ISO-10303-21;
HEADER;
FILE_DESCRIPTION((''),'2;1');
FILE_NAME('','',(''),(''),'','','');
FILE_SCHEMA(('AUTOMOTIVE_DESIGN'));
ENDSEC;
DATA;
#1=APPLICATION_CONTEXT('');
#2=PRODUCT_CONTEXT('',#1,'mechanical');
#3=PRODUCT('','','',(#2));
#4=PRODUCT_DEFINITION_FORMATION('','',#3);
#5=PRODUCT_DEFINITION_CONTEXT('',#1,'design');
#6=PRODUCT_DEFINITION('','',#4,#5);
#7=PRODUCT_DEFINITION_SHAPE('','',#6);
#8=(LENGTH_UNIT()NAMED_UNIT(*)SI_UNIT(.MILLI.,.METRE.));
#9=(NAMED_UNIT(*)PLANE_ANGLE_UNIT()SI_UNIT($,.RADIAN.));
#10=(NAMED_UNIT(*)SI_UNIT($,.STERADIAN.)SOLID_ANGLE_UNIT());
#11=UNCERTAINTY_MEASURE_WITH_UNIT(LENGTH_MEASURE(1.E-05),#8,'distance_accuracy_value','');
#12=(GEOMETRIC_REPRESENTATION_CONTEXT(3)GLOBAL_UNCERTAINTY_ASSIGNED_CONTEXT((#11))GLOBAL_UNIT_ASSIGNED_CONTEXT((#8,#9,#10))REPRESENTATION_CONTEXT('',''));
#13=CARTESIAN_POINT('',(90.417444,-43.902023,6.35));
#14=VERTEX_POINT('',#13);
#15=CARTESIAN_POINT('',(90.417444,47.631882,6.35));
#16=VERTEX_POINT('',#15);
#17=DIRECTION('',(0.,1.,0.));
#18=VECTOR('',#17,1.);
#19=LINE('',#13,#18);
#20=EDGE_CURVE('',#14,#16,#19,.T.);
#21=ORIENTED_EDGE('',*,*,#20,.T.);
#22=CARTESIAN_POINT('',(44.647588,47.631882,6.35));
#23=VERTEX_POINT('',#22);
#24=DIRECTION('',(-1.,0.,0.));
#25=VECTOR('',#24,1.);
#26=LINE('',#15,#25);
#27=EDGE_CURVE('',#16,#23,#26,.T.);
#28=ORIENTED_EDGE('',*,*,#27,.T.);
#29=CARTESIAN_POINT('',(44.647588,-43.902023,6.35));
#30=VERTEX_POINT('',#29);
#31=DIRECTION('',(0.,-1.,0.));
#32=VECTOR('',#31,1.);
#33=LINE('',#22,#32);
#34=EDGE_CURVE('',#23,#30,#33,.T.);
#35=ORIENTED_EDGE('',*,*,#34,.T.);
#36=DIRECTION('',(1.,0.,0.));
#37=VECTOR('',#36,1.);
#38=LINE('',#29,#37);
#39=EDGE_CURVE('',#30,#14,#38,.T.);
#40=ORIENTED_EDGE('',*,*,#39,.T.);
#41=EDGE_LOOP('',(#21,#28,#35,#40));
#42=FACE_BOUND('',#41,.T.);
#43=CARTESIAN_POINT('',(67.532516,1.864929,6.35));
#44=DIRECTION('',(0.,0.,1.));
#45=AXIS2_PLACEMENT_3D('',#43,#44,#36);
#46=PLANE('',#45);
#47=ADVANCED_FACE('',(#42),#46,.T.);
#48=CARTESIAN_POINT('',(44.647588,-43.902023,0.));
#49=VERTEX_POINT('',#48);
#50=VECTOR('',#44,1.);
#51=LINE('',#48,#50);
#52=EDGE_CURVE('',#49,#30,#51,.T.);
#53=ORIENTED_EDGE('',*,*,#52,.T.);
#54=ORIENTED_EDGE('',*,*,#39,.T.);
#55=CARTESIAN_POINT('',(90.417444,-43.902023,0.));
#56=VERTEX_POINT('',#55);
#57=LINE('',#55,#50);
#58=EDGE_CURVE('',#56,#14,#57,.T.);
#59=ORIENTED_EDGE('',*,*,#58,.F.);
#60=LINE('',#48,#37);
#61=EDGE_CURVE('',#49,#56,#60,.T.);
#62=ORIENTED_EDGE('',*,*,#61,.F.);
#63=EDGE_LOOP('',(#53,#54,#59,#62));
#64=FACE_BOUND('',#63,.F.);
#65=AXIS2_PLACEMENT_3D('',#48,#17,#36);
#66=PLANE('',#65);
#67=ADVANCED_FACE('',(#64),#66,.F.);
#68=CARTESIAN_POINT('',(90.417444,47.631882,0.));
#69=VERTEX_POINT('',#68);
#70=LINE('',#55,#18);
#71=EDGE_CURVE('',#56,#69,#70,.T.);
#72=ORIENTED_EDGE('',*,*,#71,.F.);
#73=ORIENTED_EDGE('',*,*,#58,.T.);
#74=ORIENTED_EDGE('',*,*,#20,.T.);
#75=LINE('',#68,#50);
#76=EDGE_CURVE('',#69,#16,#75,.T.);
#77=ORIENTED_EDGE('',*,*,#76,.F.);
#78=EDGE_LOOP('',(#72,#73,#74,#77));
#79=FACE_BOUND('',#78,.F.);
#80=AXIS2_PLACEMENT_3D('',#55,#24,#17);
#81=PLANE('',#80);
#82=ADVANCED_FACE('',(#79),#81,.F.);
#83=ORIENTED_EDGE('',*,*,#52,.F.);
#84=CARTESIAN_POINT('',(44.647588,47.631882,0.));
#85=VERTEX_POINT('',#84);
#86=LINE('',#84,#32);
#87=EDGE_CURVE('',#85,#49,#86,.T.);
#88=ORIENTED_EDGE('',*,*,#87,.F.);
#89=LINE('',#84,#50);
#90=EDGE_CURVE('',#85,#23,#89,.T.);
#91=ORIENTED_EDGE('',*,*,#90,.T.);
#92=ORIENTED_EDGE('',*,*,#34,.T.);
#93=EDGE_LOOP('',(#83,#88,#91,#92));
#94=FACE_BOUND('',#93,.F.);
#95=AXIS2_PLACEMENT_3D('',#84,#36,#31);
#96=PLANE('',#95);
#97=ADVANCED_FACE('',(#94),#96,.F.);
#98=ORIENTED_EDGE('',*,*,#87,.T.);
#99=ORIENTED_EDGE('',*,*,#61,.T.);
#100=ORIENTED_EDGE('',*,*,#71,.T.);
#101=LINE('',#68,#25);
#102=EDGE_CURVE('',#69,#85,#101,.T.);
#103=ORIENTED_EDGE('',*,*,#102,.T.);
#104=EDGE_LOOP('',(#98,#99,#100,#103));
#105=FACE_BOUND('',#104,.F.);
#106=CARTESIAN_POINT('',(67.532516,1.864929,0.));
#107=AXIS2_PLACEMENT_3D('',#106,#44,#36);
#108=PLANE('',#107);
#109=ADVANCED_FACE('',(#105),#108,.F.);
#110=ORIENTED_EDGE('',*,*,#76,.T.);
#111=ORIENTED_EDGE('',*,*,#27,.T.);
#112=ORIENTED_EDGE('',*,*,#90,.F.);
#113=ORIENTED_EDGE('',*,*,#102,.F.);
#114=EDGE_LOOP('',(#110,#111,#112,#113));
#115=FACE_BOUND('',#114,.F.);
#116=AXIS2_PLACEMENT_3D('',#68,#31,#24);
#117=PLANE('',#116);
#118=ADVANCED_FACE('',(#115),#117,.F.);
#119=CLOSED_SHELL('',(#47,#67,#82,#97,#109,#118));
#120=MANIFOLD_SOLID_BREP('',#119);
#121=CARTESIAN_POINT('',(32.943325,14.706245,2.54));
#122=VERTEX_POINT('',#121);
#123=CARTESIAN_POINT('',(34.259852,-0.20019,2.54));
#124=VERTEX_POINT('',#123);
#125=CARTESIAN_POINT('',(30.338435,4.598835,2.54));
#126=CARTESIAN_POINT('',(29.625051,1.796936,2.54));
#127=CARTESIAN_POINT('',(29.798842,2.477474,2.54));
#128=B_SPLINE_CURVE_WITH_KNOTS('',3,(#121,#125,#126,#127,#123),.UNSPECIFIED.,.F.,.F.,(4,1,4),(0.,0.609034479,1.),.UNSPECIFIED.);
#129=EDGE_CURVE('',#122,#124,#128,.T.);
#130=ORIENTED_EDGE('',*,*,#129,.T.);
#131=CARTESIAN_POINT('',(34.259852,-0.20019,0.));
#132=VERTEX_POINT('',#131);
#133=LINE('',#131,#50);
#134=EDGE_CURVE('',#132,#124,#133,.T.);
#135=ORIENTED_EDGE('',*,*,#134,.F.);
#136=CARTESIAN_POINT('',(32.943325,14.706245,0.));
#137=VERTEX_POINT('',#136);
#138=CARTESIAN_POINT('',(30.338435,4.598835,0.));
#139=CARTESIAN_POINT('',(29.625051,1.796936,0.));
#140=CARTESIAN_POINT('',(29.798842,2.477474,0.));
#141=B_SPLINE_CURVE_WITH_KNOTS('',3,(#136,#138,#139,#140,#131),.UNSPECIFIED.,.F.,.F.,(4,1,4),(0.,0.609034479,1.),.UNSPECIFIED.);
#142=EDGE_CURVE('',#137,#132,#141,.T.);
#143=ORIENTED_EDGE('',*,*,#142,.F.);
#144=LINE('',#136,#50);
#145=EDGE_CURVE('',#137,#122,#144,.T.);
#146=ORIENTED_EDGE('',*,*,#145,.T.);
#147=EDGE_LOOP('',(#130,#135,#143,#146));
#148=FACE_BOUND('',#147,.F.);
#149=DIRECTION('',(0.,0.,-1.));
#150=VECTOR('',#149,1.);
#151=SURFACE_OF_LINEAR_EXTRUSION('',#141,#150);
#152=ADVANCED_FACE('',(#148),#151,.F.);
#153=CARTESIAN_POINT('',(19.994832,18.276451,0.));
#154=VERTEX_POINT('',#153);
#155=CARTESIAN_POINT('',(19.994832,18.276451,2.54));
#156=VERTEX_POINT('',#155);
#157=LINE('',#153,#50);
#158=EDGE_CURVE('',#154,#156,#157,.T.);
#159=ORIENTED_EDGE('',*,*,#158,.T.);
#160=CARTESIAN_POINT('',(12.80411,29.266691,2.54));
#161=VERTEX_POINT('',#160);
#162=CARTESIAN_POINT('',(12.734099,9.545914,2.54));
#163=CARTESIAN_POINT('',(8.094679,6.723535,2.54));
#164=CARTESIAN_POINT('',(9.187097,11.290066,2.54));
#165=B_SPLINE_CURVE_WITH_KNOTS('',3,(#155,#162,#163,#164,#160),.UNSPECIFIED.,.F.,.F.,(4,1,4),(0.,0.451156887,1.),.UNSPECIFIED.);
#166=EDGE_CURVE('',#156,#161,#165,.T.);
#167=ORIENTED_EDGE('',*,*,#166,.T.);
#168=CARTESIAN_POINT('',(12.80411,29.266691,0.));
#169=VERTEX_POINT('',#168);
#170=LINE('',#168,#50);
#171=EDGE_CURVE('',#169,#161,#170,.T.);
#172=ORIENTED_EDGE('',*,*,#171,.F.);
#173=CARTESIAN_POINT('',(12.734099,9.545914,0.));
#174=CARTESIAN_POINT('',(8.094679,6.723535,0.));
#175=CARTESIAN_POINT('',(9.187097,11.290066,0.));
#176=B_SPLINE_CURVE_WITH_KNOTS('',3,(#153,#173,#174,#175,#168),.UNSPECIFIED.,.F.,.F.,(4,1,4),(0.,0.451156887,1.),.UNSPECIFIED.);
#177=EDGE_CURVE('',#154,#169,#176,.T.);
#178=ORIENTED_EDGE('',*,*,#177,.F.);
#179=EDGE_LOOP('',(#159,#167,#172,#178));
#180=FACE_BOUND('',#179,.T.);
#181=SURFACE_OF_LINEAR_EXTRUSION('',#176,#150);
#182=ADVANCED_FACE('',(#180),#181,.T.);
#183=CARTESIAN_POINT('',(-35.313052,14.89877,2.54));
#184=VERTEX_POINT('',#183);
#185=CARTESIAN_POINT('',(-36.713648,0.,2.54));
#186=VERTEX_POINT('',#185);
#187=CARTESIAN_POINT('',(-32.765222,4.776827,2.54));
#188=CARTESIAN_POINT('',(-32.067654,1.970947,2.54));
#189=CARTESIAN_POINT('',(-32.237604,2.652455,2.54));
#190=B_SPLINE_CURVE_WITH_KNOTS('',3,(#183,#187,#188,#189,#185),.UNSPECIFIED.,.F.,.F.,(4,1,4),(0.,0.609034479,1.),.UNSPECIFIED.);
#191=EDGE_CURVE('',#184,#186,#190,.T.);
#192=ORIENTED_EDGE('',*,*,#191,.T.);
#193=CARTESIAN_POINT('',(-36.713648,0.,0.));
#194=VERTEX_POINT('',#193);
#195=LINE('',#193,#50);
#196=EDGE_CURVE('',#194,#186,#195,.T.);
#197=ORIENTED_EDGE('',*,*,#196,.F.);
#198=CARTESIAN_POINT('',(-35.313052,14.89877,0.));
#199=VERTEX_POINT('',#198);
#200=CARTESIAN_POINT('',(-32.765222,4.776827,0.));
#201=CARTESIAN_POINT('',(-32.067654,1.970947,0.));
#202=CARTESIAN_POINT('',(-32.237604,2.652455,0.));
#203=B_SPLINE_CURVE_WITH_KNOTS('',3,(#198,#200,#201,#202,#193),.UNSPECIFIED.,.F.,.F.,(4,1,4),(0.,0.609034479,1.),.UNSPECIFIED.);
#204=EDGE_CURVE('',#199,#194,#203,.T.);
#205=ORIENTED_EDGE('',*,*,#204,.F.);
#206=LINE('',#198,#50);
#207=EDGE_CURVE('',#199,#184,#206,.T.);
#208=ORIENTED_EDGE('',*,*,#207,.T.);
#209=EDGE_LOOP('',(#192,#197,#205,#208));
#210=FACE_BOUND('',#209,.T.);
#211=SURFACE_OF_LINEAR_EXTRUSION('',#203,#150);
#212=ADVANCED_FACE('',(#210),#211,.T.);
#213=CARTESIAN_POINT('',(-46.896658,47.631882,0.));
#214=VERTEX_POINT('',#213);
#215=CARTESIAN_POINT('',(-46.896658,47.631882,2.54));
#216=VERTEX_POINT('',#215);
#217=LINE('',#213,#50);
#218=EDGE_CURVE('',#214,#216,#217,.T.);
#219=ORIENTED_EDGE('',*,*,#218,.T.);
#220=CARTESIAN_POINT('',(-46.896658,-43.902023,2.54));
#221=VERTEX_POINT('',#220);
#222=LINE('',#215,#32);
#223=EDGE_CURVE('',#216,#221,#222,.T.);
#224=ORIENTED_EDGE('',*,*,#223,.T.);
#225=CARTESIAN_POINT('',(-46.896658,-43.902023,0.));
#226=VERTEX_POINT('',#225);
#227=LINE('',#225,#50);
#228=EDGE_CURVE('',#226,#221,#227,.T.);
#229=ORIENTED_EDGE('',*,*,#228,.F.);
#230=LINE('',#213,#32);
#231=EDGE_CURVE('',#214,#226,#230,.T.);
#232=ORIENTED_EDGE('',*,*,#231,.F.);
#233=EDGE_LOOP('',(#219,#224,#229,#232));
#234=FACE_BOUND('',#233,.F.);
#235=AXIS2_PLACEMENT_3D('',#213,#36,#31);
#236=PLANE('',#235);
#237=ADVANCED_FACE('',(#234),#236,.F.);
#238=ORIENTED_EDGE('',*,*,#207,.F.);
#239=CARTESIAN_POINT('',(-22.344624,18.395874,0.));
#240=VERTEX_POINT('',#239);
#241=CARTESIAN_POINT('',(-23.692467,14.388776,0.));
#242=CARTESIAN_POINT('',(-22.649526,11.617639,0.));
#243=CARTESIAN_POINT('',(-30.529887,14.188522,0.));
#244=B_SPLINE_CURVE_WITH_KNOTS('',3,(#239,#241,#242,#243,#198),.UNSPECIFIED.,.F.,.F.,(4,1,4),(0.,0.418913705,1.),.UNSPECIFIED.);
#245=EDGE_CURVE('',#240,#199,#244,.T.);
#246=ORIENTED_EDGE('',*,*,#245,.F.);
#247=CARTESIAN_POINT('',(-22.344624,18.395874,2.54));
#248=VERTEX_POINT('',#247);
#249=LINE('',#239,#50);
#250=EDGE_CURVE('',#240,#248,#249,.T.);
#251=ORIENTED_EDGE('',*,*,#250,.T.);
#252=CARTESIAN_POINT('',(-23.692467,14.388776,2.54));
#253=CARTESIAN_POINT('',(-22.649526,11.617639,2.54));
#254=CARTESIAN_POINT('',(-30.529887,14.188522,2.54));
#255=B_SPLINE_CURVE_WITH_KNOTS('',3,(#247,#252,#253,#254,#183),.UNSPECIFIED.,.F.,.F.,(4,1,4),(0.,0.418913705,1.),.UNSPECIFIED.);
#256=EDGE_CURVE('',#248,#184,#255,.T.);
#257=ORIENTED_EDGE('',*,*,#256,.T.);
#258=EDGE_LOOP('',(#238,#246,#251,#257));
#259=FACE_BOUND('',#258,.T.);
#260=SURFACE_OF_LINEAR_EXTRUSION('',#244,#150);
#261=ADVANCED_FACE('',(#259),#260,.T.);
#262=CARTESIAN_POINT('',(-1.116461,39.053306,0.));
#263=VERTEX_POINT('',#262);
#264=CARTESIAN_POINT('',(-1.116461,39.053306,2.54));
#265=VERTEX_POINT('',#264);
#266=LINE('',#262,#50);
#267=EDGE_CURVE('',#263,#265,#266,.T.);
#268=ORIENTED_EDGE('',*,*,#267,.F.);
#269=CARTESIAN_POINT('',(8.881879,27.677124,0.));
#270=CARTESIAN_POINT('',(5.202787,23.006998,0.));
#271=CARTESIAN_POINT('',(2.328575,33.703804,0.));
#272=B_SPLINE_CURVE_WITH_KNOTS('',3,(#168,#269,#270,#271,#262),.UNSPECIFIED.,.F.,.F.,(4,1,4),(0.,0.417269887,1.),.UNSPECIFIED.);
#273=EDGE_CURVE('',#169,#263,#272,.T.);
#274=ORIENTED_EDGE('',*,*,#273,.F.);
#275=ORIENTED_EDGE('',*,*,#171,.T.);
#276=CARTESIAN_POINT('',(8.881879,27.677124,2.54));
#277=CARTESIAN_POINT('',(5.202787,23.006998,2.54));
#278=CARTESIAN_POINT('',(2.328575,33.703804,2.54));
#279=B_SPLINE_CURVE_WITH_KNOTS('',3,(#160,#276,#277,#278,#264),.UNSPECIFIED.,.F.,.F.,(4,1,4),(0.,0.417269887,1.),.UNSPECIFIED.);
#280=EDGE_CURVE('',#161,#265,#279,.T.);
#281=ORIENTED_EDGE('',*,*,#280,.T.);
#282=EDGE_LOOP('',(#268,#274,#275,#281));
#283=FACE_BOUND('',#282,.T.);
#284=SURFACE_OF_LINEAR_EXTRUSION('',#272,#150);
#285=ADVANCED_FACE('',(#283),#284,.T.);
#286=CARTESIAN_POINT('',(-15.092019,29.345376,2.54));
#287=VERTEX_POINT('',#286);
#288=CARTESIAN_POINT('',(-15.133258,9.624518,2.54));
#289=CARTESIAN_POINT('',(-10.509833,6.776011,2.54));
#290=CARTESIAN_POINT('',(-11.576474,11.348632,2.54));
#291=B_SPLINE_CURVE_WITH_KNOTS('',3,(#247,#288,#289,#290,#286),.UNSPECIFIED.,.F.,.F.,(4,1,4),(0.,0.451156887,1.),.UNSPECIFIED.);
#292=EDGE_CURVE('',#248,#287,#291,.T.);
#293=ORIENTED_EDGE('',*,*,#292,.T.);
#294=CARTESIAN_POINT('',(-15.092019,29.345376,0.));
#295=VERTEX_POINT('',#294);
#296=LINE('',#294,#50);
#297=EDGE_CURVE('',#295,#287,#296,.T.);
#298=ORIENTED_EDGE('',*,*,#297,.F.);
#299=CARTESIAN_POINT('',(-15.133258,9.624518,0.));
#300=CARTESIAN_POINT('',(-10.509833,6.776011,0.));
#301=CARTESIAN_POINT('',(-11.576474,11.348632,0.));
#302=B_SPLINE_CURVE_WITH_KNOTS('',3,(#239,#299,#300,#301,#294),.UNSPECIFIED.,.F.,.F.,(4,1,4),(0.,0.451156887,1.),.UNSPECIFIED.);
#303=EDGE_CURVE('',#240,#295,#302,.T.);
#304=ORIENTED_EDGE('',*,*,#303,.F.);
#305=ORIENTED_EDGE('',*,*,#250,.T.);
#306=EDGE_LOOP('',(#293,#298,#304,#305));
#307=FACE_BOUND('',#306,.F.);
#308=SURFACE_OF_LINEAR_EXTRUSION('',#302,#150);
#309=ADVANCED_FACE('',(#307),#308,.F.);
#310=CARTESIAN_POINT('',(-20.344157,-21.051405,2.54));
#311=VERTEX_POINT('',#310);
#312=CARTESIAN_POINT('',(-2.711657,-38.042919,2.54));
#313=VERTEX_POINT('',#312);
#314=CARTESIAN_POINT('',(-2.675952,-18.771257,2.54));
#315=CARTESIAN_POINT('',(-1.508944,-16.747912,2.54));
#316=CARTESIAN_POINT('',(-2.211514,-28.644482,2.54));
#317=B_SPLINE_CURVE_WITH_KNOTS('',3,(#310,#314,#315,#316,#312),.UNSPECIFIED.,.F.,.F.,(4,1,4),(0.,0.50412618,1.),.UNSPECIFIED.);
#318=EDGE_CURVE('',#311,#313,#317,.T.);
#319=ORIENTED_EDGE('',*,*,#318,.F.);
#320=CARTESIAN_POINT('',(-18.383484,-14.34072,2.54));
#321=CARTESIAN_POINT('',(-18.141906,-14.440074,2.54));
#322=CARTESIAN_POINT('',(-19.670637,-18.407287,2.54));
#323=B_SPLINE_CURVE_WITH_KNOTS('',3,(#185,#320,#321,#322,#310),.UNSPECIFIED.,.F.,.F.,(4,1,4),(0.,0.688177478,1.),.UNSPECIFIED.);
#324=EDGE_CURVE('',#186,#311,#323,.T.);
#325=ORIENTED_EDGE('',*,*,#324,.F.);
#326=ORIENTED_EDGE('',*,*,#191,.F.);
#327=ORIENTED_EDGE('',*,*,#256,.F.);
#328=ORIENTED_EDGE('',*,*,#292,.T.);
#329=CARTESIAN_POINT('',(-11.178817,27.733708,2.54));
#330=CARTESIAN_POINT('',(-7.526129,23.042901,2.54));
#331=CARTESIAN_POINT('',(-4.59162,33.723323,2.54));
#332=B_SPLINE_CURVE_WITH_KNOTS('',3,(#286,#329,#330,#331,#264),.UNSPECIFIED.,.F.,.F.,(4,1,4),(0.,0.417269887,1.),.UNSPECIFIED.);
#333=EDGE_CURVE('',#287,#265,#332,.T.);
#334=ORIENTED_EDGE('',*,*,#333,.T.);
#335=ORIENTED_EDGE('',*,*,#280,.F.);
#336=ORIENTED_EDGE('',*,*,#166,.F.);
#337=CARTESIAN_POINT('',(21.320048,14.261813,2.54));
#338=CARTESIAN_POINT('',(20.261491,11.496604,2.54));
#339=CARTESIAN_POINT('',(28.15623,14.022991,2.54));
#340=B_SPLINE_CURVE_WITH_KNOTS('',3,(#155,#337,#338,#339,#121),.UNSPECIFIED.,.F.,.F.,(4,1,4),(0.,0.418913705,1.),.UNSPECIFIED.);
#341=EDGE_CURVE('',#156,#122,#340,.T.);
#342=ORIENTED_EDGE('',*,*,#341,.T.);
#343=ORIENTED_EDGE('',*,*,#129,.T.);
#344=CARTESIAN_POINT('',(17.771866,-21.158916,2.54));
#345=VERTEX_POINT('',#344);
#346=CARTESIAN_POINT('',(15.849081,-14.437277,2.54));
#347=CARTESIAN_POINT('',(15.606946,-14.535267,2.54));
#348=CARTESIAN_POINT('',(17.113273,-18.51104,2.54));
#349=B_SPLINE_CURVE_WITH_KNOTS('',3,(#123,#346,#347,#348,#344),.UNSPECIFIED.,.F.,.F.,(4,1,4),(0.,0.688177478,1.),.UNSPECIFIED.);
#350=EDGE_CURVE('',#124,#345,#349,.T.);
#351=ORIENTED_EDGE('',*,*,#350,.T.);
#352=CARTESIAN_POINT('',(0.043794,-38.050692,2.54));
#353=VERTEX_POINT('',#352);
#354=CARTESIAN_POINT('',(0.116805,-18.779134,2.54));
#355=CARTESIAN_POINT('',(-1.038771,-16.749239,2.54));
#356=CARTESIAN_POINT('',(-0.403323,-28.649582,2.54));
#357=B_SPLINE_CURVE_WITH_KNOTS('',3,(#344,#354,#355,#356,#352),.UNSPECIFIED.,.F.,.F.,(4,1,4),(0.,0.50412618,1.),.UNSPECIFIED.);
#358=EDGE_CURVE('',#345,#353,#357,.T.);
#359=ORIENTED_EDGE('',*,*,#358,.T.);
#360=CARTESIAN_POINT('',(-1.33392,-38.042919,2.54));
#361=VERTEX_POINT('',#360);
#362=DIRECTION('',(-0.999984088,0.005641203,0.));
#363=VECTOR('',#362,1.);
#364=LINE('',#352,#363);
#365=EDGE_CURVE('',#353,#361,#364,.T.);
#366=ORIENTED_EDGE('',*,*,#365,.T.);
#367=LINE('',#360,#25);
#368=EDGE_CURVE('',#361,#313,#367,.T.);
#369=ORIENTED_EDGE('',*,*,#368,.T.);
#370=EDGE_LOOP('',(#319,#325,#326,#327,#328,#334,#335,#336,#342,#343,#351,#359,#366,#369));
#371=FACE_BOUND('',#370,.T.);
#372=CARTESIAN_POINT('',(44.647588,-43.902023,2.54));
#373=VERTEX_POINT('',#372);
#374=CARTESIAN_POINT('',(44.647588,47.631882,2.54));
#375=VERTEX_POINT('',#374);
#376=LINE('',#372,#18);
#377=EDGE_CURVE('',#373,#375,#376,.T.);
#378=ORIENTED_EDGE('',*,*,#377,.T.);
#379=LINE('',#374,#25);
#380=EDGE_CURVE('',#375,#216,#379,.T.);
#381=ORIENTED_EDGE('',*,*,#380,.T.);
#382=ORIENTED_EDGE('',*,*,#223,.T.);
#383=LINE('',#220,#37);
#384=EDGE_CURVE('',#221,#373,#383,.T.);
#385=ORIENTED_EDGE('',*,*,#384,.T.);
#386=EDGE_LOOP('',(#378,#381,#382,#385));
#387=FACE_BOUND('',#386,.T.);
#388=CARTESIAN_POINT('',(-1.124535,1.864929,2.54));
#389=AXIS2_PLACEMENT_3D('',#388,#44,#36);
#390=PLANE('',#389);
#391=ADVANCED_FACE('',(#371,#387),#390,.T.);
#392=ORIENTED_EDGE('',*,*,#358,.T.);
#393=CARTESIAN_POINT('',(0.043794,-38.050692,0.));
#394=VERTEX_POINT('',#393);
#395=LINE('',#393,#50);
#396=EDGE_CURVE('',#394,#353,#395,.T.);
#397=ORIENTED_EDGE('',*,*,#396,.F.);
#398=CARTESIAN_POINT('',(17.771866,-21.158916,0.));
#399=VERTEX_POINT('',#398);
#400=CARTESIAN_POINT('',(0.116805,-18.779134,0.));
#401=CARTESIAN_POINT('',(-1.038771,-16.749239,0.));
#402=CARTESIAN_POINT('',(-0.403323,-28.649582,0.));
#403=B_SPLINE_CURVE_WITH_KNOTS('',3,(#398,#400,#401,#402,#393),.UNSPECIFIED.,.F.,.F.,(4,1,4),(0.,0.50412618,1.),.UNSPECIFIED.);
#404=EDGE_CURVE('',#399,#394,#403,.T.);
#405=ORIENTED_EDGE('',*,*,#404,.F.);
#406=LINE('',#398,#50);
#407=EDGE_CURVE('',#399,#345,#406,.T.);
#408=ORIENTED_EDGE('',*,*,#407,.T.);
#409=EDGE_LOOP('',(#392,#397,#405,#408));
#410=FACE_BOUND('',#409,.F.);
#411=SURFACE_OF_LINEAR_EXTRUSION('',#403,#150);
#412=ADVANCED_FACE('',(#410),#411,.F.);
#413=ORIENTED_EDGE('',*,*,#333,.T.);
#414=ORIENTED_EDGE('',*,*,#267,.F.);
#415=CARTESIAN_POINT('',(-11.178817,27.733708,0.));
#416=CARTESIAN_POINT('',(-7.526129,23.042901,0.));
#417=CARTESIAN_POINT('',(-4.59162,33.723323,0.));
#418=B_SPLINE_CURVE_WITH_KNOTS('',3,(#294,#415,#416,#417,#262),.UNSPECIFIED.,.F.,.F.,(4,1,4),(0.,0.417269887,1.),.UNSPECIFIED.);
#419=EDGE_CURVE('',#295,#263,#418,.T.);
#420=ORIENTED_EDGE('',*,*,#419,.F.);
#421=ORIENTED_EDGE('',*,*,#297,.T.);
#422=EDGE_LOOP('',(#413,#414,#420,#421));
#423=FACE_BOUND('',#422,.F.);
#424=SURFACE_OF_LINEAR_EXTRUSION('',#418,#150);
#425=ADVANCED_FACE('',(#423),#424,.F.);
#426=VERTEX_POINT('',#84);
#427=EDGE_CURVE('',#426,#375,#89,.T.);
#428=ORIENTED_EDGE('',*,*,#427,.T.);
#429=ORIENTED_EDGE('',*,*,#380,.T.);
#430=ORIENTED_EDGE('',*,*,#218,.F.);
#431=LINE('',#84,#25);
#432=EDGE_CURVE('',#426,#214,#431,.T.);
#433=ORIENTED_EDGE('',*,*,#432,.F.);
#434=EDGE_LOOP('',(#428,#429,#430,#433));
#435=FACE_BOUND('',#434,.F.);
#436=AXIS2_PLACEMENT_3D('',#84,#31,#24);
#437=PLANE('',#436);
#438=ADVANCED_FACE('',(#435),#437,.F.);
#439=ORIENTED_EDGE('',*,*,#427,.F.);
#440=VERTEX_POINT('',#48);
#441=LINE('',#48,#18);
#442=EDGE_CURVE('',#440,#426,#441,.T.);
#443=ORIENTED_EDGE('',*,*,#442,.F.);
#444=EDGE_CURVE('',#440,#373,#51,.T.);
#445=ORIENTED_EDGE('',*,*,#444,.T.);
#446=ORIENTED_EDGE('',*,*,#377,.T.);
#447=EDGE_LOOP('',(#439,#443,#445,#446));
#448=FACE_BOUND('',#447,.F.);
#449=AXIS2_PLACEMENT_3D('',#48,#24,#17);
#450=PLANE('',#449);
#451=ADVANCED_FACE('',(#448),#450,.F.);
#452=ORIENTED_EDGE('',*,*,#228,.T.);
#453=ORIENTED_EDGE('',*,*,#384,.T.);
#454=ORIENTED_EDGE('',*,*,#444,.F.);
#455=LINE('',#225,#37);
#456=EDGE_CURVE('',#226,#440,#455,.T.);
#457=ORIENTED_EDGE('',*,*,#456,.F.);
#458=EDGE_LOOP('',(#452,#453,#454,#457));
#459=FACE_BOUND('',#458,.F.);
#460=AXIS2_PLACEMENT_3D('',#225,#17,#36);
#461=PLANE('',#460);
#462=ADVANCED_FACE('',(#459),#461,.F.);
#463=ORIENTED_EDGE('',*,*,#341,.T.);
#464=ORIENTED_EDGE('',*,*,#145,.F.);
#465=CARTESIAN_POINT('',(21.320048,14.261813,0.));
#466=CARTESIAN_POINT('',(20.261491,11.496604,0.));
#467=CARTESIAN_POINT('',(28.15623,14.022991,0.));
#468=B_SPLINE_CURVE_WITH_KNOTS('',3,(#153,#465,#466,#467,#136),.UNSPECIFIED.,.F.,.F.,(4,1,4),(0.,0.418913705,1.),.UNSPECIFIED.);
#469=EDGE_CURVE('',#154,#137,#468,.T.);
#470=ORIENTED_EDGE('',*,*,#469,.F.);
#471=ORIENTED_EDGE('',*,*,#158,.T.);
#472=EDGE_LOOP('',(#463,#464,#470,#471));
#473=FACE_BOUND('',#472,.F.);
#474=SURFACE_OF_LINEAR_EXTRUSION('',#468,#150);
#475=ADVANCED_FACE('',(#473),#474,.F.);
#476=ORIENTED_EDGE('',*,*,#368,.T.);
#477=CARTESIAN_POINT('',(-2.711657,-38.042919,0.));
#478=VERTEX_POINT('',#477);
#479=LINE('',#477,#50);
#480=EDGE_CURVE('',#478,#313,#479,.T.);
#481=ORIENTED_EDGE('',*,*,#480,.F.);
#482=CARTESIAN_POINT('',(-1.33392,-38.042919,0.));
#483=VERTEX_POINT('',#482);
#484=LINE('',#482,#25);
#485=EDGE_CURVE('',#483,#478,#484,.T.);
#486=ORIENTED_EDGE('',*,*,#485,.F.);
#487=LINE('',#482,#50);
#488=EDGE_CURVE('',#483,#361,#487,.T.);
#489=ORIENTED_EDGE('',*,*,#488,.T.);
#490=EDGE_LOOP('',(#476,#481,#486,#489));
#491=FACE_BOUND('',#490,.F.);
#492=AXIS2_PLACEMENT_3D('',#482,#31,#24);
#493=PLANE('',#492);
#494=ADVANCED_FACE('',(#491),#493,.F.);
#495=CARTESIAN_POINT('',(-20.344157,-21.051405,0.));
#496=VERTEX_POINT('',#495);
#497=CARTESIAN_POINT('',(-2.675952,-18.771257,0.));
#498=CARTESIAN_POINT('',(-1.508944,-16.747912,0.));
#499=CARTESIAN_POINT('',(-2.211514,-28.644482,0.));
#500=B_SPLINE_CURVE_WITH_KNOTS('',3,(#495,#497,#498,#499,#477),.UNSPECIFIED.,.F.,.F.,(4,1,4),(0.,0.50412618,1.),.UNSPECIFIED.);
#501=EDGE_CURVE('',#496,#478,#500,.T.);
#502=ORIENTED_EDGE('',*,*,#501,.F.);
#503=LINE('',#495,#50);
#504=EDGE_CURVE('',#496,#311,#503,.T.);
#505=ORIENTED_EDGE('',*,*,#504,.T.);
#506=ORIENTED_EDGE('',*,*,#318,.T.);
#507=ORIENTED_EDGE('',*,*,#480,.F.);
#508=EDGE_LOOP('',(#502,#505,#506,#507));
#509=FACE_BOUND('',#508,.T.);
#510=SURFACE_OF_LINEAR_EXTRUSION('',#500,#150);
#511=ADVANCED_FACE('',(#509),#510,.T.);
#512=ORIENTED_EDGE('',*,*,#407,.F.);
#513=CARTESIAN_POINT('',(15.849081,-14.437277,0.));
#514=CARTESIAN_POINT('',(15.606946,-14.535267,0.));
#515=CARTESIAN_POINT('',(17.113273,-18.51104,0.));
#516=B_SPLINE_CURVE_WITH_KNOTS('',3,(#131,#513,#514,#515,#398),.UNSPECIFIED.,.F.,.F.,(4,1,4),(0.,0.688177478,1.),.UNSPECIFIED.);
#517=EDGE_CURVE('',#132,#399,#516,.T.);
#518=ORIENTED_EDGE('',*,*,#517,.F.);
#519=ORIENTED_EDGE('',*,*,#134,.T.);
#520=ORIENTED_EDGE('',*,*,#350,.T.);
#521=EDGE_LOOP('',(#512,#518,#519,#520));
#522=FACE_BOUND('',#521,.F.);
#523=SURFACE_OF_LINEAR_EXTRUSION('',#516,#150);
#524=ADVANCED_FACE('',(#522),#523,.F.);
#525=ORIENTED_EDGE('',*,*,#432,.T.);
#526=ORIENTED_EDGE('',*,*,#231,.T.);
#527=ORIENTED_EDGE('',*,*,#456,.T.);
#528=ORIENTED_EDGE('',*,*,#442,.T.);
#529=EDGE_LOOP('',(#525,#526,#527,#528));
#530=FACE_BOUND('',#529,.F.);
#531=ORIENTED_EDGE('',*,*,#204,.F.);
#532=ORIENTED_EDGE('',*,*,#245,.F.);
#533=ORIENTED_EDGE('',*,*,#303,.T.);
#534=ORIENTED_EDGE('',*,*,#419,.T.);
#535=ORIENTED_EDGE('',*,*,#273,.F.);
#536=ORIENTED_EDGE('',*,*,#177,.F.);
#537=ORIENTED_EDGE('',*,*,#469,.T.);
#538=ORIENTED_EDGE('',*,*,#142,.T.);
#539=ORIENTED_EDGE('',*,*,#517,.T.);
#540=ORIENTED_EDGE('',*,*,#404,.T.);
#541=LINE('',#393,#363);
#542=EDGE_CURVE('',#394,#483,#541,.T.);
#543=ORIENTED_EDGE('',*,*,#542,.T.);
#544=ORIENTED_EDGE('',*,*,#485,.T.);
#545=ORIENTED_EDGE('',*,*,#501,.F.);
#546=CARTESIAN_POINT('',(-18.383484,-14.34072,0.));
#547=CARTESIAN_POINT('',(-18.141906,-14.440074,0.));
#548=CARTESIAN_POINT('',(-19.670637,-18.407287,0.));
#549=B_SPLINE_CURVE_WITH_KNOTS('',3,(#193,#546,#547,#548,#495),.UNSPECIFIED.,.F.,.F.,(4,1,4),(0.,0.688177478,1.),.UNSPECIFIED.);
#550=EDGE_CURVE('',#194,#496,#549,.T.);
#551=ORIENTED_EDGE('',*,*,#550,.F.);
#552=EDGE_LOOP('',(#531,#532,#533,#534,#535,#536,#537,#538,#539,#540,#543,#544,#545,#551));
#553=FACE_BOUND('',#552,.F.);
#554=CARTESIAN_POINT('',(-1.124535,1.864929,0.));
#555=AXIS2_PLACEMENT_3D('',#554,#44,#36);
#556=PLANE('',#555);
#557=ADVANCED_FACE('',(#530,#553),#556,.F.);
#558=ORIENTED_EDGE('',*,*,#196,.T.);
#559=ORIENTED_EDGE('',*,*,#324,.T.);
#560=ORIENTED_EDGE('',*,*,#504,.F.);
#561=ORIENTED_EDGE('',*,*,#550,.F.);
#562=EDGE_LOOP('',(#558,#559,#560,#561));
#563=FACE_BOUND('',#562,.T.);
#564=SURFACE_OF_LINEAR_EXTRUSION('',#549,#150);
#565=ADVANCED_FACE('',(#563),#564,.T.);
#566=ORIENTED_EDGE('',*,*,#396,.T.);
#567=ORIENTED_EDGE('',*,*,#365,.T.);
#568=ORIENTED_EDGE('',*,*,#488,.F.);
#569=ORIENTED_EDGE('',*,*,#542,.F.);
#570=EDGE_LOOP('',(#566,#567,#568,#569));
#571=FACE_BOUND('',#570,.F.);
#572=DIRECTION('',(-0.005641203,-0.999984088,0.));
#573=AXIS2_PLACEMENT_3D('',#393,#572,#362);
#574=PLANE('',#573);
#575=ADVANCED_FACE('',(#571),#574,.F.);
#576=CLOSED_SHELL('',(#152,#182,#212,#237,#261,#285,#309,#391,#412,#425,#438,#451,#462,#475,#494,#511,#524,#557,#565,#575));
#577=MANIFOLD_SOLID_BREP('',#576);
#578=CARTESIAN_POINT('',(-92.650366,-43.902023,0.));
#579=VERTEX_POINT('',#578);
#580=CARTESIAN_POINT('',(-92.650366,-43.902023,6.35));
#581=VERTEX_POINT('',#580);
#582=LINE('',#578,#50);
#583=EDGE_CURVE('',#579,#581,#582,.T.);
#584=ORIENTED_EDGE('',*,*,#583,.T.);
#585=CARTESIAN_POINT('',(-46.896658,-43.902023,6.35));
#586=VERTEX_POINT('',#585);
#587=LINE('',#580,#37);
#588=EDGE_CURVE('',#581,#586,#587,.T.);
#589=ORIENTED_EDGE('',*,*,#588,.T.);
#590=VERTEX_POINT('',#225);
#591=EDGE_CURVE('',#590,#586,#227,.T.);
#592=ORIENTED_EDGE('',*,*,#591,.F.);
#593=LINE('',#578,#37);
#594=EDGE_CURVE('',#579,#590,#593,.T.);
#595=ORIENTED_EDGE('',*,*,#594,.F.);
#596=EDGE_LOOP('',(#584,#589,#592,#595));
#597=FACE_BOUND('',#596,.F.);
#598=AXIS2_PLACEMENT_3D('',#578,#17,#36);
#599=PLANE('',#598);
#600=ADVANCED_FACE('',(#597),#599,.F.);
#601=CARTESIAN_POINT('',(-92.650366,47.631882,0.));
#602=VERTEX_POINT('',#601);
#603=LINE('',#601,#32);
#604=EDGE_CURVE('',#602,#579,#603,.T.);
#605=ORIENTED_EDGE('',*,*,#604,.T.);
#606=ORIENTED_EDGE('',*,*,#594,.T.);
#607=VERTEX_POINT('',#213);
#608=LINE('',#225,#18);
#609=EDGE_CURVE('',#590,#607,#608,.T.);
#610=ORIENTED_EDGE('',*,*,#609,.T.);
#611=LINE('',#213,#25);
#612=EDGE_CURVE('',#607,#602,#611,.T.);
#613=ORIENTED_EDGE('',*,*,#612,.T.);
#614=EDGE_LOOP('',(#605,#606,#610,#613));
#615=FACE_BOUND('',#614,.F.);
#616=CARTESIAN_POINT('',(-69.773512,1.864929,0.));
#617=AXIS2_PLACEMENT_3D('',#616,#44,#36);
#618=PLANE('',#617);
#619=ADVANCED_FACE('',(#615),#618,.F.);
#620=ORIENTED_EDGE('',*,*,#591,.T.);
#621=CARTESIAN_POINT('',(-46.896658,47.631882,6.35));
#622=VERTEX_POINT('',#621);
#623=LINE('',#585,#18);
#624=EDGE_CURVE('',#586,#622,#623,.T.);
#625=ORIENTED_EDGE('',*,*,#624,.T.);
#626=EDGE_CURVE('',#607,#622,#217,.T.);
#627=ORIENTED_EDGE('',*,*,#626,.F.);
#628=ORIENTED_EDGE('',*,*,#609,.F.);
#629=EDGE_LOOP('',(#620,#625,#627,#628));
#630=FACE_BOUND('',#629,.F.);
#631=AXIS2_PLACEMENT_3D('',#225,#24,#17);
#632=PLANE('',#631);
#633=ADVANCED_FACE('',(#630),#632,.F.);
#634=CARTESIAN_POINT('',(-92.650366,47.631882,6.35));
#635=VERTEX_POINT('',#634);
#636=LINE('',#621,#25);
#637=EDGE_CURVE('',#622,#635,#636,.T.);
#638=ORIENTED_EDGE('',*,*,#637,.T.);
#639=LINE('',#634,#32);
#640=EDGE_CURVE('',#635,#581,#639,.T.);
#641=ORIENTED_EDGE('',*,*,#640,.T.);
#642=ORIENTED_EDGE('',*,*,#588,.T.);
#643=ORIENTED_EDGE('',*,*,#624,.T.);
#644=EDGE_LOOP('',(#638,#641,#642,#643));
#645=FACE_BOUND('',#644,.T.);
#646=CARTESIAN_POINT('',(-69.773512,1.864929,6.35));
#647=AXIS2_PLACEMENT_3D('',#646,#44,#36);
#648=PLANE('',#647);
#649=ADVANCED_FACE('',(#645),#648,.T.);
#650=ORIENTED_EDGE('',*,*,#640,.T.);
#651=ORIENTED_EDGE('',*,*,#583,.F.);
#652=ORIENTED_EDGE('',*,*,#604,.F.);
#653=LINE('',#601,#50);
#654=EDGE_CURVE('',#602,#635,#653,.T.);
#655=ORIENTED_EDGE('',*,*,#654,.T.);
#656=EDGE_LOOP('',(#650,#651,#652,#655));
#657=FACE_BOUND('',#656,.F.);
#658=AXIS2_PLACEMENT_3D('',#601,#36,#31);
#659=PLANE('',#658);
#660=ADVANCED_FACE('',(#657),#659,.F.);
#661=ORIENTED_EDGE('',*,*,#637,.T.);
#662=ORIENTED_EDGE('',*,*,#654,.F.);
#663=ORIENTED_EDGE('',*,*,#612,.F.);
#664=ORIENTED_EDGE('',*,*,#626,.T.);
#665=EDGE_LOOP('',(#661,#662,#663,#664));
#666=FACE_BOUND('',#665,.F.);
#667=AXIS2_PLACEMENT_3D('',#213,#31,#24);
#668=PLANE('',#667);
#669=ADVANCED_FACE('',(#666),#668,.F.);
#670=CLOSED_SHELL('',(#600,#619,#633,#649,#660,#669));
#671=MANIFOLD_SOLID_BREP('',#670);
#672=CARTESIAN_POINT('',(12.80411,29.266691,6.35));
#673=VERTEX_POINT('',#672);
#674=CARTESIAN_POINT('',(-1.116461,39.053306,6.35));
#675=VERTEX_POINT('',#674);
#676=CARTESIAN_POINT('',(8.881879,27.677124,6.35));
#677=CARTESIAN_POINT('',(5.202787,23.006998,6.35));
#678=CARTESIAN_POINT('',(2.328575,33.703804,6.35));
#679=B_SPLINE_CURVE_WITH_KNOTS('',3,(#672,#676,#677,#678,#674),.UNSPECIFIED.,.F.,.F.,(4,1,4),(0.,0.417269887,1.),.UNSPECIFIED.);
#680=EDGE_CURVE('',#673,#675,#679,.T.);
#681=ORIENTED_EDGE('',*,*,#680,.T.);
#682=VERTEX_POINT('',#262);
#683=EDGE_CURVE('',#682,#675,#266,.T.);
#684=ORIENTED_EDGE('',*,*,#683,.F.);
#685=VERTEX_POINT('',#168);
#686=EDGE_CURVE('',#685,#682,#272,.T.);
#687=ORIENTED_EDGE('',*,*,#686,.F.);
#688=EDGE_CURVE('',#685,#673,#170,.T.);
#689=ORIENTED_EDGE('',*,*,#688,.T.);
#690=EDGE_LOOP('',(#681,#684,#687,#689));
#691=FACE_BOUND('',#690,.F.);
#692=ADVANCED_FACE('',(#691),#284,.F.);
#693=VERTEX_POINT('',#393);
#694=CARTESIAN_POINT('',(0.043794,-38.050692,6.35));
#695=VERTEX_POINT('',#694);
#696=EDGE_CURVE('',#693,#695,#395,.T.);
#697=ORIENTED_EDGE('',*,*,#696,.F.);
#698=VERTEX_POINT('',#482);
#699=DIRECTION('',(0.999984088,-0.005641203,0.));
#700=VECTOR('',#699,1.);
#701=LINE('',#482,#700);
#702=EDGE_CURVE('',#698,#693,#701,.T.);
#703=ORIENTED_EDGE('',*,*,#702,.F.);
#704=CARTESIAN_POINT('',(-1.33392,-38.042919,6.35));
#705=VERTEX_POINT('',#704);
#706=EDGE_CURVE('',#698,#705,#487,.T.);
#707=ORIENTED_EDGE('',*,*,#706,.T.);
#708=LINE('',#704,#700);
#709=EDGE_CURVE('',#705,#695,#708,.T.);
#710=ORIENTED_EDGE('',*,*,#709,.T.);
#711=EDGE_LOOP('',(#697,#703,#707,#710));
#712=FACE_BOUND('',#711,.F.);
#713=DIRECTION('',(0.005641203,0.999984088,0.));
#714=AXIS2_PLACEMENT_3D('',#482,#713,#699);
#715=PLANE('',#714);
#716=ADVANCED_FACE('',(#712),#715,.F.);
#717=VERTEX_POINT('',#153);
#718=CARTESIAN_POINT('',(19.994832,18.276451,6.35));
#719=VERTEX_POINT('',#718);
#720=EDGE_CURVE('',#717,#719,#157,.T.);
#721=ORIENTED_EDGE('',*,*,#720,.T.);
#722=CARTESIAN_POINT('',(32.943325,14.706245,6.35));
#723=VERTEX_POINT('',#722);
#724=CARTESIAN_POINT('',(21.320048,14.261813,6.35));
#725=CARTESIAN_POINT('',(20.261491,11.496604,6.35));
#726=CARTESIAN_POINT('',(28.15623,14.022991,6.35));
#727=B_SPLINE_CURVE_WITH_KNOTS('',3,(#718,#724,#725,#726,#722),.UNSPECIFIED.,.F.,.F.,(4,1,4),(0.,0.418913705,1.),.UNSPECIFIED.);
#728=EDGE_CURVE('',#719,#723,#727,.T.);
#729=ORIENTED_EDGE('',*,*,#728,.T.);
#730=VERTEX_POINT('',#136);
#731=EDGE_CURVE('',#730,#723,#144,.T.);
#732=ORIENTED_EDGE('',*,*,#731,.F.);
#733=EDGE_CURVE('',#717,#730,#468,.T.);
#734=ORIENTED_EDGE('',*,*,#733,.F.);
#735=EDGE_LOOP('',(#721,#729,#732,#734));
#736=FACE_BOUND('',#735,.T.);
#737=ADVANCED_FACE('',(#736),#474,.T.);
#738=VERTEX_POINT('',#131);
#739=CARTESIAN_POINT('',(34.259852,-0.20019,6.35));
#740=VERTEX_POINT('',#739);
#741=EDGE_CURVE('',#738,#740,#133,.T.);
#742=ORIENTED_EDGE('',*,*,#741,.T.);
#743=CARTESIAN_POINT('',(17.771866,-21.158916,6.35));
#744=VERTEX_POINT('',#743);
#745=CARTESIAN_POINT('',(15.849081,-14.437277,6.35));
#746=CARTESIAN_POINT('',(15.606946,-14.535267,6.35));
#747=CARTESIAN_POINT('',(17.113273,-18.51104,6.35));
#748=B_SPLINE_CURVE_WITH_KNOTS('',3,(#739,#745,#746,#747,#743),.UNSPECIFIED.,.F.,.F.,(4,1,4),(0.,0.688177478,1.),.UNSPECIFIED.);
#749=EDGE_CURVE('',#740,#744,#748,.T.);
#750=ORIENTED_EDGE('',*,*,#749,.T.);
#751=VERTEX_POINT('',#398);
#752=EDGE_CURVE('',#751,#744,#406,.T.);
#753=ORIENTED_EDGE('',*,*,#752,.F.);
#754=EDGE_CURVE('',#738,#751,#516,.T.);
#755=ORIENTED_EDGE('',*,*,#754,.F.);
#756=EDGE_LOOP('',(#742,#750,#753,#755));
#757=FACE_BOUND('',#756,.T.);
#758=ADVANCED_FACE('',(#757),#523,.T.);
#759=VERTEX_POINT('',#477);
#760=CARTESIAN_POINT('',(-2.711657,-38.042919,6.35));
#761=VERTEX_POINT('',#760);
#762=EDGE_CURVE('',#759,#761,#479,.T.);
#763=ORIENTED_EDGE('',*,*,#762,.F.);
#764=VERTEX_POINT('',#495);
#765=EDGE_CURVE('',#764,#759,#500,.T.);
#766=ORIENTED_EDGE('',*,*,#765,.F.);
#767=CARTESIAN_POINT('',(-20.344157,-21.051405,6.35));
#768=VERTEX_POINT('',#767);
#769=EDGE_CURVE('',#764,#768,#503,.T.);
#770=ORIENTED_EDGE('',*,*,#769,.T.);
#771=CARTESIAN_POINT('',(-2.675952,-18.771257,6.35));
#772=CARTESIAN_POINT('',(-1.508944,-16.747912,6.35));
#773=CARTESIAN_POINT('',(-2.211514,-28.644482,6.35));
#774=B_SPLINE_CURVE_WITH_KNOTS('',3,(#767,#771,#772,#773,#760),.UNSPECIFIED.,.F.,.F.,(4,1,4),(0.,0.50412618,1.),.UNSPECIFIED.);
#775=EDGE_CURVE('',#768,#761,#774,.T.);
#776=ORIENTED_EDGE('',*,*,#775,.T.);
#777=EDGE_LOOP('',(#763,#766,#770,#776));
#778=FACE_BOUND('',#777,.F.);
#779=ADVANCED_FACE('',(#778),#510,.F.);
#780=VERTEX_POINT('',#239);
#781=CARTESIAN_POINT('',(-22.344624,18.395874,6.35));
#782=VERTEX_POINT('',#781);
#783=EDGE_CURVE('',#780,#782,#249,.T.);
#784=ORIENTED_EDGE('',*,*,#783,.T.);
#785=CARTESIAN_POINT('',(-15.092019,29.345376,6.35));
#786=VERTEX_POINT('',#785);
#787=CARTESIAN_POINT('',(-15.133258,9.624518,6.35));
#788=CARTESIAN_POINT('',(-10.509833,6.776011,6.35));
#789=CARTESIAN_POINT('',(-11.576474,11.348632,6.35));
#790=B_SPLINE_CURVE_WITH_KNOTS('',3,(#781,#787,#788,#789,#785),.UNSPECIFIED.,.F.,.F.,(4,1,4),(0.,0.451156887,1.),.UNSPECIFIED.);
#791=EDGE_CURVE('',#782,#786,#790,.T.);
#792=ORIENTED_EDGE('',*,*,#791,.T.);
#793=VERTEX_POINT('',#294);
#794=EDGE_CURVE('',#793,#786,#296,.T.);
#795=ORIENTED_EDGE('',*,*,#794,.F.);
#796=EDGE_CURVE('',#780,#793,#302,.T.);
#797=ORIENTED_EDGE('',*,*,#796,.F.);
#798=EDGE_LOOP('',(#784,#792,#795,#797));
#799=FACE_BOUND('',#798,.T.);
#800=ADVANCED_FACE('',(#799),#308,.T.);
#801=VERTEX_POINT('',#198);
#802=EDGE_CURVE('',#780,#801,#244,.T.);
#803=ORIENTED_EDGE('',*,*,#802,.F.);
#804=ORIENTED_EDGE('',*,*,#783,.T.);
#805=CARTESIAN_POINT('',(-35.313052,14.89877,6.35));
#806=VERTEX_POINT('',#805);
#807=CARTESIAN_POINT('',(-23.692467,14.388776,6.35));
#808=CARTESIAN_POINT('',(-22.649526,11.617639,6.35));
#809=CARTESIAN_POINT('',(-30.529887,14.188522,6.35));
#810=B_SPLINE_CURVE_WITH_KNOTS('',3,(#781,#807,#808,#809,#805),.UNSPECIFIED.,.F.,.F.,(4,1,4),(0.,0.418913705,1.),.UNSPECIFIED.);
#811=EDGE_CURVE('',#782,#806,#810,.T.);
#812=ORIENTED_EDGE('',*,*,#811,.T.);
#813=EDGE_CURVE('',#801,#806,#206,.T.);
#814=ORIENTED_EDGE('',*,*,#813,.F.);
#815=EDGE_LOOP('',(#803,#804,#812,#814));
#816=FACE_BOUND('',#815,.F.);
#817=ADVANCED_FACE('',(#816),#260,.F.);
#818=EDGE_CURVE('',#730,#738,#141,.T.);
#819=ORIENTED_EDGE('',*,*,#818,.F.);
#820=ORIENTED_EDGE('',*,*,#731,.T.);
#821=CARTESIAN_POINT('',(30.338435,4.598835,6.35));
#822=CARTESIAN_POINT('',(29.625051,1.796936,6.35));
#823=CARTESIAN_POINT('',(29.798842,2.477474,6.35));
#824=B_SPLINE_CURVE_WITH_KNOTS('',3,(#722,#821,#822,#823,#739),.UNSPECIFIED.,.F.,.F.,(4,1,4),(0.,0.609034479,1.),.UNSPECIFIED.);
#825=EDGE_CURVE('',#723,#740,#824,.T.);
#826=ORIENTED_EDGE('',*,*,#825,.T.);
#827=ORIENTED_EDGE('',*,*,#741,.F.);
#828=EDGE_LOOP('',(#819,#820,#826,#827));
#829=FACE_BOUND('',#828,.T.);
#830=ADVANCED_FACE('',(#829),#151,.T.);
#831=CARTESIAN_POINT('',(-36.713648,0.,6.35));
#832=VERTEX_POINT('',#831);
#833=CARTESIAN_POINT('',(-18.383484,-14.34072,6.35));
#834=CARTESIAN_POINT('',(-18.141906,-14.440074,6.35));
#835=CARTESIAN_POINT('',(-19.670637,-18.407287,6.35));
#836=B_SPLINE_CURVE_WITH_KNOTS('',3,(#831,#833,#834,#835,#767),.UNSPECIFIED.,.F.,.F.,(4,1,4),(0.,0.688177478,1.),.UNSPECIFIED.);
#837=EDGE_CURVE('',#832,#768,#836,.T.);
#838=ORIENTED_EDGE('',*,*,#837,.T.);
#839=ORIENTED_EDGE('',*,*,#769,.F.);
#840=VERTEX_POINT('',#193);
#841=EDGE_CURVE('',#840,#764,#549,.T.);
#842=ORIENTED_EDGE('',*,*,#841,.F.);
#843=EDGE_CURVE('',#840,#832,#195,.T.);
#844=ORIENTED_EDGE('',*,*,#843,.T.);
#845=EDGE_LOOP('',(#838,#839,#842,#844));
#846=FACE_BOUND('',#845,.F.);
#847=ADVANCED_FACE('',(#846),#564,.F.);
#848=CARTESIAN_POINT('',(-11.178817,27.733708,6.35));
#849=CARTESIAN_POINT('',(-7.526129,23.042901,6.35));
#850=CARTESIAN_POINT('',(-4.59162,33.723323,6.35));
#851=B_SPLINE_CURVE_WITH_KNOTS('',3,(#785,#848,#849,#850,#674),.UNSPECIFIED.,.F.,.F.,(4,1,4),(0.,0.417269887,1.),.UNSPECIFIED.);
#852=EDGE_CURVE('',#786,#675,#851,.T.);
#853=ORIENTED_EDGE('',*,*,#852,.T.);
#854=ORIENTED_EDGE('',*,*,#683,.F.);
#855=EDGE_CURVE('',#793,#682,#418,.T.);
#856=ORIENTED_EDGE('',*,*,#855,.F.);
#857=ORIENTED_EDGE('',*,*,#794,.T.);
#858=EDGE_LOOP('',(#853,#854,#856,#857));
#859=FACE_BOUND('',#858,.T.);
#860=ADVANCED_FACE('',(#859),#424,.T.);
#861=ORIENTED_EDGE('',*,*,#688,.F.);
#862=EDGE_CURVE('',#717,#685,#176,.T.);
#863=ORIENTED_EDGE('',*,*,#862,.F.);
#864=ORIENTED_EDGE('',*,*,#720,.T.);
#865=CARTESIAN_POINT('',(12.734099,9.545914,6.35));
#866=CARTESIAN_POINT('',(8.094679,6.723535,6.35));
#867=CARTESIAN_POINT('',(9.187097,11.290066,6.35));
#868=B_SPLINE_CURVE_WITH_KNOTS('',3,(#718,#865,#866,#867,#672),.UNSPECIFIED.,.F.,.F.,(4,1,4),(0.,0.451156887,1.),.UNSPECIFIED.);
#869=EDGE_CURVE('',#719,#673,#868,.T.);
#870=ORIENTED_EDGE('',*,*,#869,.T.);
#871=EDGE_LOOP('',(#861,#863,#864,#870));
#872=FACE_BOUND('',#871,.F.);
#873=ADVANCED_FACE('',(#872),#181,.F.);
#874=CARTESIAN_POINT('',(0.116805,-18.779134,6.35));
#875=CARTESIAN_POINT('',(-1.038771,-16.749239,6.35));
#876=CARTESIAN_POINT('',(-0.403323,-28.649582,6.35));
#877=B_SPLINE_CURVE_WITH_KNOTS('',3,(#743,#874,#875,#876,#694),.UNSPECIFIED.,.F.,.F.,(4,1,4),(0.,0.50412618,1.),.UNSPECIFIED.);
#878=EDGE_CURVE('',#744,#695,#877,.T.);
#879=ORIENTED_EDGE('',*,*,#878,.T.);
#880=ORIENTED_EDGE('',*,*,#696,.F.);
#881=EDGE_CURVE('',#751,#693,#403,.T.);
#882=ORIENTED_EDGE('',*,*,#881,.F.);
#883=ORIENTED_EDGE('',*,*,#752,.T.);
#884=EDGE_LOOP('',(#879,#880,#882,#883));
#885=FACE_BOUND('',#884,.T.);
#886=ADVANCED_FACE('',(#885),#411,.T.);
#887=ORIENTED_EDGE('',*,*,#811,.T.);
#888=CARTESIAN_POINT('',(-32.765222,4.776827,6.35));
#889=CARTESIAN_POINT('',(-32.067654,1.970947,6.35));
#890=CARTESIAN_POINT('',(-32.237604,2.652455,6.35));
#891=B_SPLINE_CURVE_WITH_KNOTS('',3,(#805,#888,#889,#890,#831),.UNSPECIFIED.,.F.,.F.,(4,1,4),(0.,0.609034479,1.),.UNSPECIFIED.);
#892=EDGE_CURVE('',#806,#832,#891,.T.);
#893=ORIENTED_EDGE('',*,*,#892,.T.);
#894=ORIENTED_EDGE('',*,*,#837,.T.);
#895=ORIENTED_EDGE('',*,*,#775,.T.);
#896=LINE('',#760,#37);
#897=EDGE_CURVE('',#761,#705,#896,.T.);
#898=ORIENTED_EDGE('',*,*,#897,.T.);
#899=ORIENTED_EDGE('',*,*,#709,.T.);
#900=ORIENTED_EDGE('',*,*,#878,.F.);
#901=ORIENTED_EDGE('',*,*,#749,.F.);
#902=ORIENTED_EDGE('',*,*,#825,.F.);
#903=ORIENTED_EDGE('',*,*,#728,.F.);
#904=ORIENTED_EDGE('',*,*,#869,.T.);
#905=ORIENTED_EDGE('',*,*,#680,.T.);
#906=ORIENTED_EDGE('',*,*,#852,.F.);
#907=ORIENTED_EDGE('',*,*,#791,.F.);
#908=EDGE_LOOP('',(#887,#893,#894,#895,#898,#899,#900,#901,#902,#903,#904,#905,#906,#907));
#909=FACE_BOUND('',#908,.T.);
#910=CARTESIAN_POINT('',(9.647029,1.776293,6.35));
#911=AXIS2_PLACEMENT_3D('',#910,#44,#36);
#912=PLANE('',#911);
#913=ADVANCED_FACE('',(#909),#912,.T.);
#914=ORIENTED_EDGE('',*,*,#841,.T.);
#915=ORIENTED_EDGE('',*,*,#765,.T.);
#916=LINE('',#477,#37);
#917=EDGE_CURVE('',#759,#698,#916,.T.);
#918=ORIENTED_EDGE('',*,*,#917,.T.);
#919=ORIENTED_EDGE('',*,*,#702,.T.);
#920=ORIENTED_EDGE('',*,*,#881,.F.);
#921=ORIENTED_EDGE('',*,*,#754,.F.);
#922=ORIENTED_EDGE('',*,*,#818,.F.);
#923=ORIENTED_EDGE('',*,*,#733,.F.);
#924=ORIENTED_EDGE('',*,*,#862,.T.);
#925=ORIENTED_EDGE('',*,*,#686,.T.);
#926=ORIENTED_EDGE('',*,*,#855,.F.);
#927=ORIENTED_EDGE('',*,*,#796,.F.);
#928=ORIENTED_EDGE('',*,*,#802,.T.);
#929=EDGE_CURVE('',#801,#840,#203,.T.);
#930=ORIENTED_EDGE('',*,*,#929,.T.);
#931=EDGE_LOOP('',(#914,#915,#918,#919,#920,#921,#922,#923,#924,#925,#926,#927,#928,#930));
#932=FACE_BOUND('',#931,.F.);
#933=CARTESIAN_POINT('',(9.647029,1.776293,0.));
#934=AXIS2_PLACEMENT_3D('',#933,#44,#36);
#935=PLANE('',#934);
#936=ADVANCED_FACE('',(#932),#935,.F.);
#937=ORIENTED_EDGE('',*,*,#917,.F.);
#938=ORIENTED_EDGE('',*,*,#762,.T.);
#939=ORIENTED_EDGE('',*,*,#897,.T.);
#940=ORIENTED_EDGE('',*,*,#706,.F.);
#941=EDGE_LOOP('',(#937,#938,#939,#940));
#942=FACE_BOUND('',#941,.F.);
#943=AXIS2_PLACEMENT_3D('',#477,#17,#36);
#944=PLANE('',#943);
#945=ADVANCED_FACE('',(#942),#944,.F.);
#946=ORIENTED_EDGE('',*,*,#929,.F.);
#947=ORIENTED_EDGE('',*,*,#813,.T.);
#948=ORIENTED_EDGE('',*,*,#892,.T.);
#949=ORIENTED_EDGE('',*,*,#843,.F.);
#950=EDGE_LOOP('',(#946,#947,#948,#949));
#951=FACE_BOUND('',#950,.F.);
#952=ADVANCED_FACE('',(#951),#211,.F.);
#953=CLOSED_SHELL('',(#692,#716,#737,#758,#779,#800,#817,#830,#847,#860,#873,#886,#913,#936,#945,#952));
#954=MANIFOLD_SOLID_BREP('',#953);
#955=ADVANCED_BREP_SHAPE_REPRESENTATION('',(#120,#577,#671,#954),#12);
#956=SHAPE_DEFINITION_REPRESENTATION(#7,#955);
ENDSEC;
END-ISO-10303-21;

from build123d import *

# Parameters (mm, degrees)
F1_DEPTH = 6.35
F2_DEPTH = 6.35
F3_DEPTH = 2.54


with BuildPart() as f1:
    # F0 (on Top) → F1 (new body)
    with BuildSketch(Plane.XY):
        with BuildLine():
            Line((-1.1164610549, 39.0533058461), (-1.3339204969, -38.0429194985))
            Line((-1.3339204969, -38.0429194985), (0.043793726, -38.0506915872))
            add(Edge.make_bspline(
                [(17.7718664224, -21.1589155134), (0.1168053946, -18.7791340155), (-1.0387706532, -16.7492385287), (-0.4033229494, -28.6495818456), (0.043793726, -38.0506915872)],
                knots=[0, 0, 0, 0, 0.5041261797, 1, 1, 1, 1], degree=3))
            add(Edge.make_bspline(
                [(34.259852291, -0.2001895396), (15.8490805469, -14.437276867), (15.606946184, -14.5352669143), (17.1132727169, -18.5110401656), (17.7718664224, -21.1589155134)],
                knots=[0, 0, 0, 0, 0.6881774781, 1, 1, 1, 1], degree=3))
            add(Edge.make_bspline(
                [(32.9433250223, 14.7062445461), (30.3384353377, 4.5988348356), (29.6250505829, 1.7969355622), (29.7988422881, 2.4774735189), (34.259852291, -0.2001895396)],
                knots=[0, 0, 0, 0, 0.6090344785, 1, 1, 1, 1], degree=3))
            add(Edge.make_bspline(
                [(19.9948317708, 18.2764506918), (21.3200481739, 14.2618131265), (20.2614912616, 11.4966035445), (28.156229911, 14.0229906255), (32.9433250223, 14.7062445461)],
                knots=[0, 0, 0, 0, 0.4189137049, 1, 1, 1, 1], degree=3))
            add(Edge.make_bspline(
                [(19.9948317708, 18.2764506918), (12.7340992756, 9.5459144575), (8.0946791533, 6.723535087), (9.1870973138, 11.2900662286), (12.8041103318, 29.2666911636)],
                knots=[0, 0, 0, 0, 0.4511568874, 1, 1, 1, 1], degree=3))
            add(Edge.make_bspline(
                [(12.8041103318, 29.2666911636), (8.8818789195, 27.6771241004), (5.2027866351, 23.0069980044), (2.3285752692, 33.7038039952), (-1.1164610549, 39.0533058461)],
                knots=[0, 0, 0, 0, 0.4172698872, 1, 1, 1, 1], degree=3))
        make_face()
        with BuildLine():
            add(Edge.make_bspline(
                [(-20.3441573239, -21.0514045527), (-2.6759523888, -18.7712566966), (-1.5089436766, -16.7479123475), (-2.2115135166, -28.6444816204), (-2.7116566419, -38.0429194985)],
                knots=[0, 0, 0, 0, 0.5041261797, 1, 1, 1, 1], degree=3))
            Line((-2.7116566419, -38.0429194985), (-1.3339204969, -38.0429194985))
            Line((-1.3339204969, -38.0429194985), (-1.1164610549, 39.0533058461))
            add(Edge.make_bspline(
                [(-15.0920192174, 29.3453756483), (-11.1788172842, 27.7337077759), (-7.5261286677, 23.0429014849), (-4.5916201862, 33.7233232627), (-1.1164610549, 39.0533058461)],
                knots=[0, 0, 0, 0, 0.4172698872, 1, 1, 1, 1], degree=3))
            add(Edge.make_bspline(
                [(-22.3446244123, 18.3958743662), (-15.1332581712, 9.624517787), (-10.5098334836, 6.7760114166), (-11.5764735348, 11.3486324491), (-15.0920192174, 29.3453756483)],
                knots=[0, 0, 0, 0, 0.4511568874, 1, 1, 1, 1], degree=3))
            add(Edge.make_bspline(
                [(-22.3446244123, 18.3958743662), (-23.6924671127, 14.3887764949), (-22.6495261512, 11.617639378), (-30.5298873205, 14.1885220798), (-35.3130518872, 14.8987701018)],
                knots=[0, 0, 0, 0, 0.4189137049, 1, 1, 1, 1], degree=3))
            add(Edge.make_bspline(
                [(-35.3130518872, 14.8987701018), (-32.7652215964, 4.7768265072), (-32.0676542741, 1.9709474689), (-32.2376041616, 2.6524549912), (-36.7136484219, 0)],
                knots=[0, 0, 0, 0, 0.6090344785, 1, 1, 1, 1], degree=3))
            add(Edge.make_bspline(
                [(-36.7136484219, 0), (-18.3834839181, -14.3407196837), (-18.1419061896, -14.4400741007), (-19.6706368965, -18.4072865976), (-20.3441573239, -21.0514045527)],
                knots=[0, 0, 0, 0, 0.6881774781, 1, 1, 1, 1], degree=3))
        make_face()
    extrude(amount=F1_DEPTH)


with BuildPart() as f2:
    # F0 (on Top) → F2 (new body)
    with BuildSketch(Plane.XY):
        Polygon((90.4174440865, 47.6318820421), (44.6475883337, 47.6318820421), (44.6475883337, -43.2670230994), (44.6475883337, -43.9020230994), (90.4174440865, -43.9020230994), align=None)
    extrude(amount=F2_DEPTH)


with BuildPart() as f2b:
    # F0 (on Top) → F2, piece 2 (new body)
    with BuildSketch(Plane.XY):
        Polygon((-46.8966577759, 47.6318820421), (-92.6503661963, 47.6318820421), (-92.6503661963, -43.9020230994), (-46.8966577759, -43.9020230994), (-46.8966577759, -43.2670230994), align=None)
    extrude(amount=F2_DEPTH)


with BuildPart() as f3:
    # F0 (on Top) → F3 (new body)
    with BuildSketch(Plane.XY):
        Polygon((44.6475883337, 47.6318820421), (-46.8966577759, 47.6318820421), (-46.8966577759, -43.2670230994), (-46.8966577759, -43.9020230994), (44.6475883337, -43.9020230994), (44.6475883337, -43.2670230994), align=None)
        with BuildLine():
            Line((-1.3339204969, -38.0429194985), (-2.7116566419, -38.0429194985))
            add(Edge.make_bspline(
                [(-20.3441573239, -21.0514045527), (-2.6759523888, -18.7712566966), (-1.5089436766, -16.7479123475), (-2.2115135166, -28.6444816204), (-2.7116566419, -38.0429194985)],
                knots=[0, 0, 0, 0, 0.5041261797, 1, 1, 1, 1], degree=3))
            add(Edge.make_bspline(
                [(-36.7136484219, 0), (-18.3834839181, -14.3407196837), (-18.1419061896, -14.4400741007), (-19.6706368965, -18.4072865976), (-20.3441573239, -21.0514045527)],
                knots=[0, 0, 0, 0, 0.6881774781, 1, 1, 1, 1], degree=3))
            add(Edge.make_bspline(
                [(-35.3130518872, 14.8987701018), (-32.7652215964, 4.7768265072), (-32.0676542741, 1.9709474689), (-32.2376041616, 2.6524549912), (-36.7136484219, 0)],
                knots=[0, 0, 0, 0, 0.6090344785, 1, 1, 1, 1], degree=3))
            add(Edge.make_bspline(
                [(-22.3446244123, 18.3958743662), (-23.6924671127, 14.3887764949), (-22.6495261512, 11.617639378), (-30.5298873205, 14.1885220798), (-35.3130518872, 14.8987701018)],
                knots=[0, 0, 0, 0, 0.4189137049, 1, 1, 1, 1], degree=3))
            add(Edge.make_bspline(
                [(-22.3446244123, 18.3958743662), (-15.1332581712, 9.624517787), (-10.5098334836, 6.7760114166), (-11.5764735348, 11.3486324491), (-15.0920192174, 29.3453756483)],
                knots=[0, 0, 0, 0, 0.4511568874, 1, 1, 1, 1], degree=3))
            add(Edge.make_bspline(
                [(-15.0920192174, 29.3453756483), (-11.1788172842, 27.7337077759), (-7.5261286677, 23.0429014849), (-4.5916201862, 33.7233232627), (-1.1164610549, 39.0533058461)],
                knots=[0, 0, 0, 0, 0.4172698872, 1, 1, 1, 1], degree=3))
            add(Edge.make_bspline(
                [(12.8041103318, 29.2666911636), (8.8818789195, 27.6771241004), (5.2027866351, 23.0069980044), (2.3285752692, 33.7038039952), (-1.1164610549, 39.0533058461)],
                knots=[0, 0, 0, 0, 0.4172698872, 1, 1, 1, 1], degree=3))
            add(Edge.make_bspline(
                [(19.9948317708, 18.2764506918), (12.7340992756, 9.5459144575), (8.0946791533, 6.723535087), (9.1870973138, 11.2900662286), (12.8041103318, 29.2666911636)],
                knots=[0, 0, 0, 0, 0.4511568874, 1, 1, 1, 1], degree=3))
            add(Edge.make_bspline(
                [(19.9948317708, 18.2764506918), (21.3200481739, 14.2618131265), (20.2614912616, 11.4966035445), (28.156229911, 14.0229906255), (32.9433250223, 14.7062445461)],
                knots=[0, 0, 0, 0, 0.4189137049, 1, 1, 1, 1], degree=3))
            add(Edge.make_bspline(
                [(32.9433250223, 14.7062445461), (30.3384353377, 4.5988348356), (29.6250505829, 1.7969355622), (29.7988422881, 2.4774735189), (34.259852291, -0.2001895396)],
                knots=[0, 0, 0, 0, 0.6090344785, 1, 1, 1, 1], degree=3))
            add(Edge.make_bspline(
                [(34.259852291, -0.2001895396), (15.8490805469, -14.437276867), (15.606946184, -14.5352669143), (17.1132727169, -18.5110401656), (17.7718664224, -21.1589155134)],
                knots=[0, 0, 0, 0, 0.6881774781, 1, 1, 1, 1], degree=3))
            add(Edge.make_bspline(
                [(17.7718664224, -21.1589155134), (0.1168053946, -18.7791340155), (-1.0387706532, -16.7492385287), (-0.4033229494, -28.6495818456), (0.043793726, -38.0506915872)],
                knots=[0, 0, 0, 0, 0.5041261797, 1, 1, 1, 1], degree=3))
            Line((0.043793726, -38.0506915872), (-1.3339204969, -38.0429194985))
        make_face(mode=Mode.SUBTRACT)
    extrude(amount=F3_DEPTH)


solid = Compound([f1.part, f2.part, f2b.part, f3.part])
